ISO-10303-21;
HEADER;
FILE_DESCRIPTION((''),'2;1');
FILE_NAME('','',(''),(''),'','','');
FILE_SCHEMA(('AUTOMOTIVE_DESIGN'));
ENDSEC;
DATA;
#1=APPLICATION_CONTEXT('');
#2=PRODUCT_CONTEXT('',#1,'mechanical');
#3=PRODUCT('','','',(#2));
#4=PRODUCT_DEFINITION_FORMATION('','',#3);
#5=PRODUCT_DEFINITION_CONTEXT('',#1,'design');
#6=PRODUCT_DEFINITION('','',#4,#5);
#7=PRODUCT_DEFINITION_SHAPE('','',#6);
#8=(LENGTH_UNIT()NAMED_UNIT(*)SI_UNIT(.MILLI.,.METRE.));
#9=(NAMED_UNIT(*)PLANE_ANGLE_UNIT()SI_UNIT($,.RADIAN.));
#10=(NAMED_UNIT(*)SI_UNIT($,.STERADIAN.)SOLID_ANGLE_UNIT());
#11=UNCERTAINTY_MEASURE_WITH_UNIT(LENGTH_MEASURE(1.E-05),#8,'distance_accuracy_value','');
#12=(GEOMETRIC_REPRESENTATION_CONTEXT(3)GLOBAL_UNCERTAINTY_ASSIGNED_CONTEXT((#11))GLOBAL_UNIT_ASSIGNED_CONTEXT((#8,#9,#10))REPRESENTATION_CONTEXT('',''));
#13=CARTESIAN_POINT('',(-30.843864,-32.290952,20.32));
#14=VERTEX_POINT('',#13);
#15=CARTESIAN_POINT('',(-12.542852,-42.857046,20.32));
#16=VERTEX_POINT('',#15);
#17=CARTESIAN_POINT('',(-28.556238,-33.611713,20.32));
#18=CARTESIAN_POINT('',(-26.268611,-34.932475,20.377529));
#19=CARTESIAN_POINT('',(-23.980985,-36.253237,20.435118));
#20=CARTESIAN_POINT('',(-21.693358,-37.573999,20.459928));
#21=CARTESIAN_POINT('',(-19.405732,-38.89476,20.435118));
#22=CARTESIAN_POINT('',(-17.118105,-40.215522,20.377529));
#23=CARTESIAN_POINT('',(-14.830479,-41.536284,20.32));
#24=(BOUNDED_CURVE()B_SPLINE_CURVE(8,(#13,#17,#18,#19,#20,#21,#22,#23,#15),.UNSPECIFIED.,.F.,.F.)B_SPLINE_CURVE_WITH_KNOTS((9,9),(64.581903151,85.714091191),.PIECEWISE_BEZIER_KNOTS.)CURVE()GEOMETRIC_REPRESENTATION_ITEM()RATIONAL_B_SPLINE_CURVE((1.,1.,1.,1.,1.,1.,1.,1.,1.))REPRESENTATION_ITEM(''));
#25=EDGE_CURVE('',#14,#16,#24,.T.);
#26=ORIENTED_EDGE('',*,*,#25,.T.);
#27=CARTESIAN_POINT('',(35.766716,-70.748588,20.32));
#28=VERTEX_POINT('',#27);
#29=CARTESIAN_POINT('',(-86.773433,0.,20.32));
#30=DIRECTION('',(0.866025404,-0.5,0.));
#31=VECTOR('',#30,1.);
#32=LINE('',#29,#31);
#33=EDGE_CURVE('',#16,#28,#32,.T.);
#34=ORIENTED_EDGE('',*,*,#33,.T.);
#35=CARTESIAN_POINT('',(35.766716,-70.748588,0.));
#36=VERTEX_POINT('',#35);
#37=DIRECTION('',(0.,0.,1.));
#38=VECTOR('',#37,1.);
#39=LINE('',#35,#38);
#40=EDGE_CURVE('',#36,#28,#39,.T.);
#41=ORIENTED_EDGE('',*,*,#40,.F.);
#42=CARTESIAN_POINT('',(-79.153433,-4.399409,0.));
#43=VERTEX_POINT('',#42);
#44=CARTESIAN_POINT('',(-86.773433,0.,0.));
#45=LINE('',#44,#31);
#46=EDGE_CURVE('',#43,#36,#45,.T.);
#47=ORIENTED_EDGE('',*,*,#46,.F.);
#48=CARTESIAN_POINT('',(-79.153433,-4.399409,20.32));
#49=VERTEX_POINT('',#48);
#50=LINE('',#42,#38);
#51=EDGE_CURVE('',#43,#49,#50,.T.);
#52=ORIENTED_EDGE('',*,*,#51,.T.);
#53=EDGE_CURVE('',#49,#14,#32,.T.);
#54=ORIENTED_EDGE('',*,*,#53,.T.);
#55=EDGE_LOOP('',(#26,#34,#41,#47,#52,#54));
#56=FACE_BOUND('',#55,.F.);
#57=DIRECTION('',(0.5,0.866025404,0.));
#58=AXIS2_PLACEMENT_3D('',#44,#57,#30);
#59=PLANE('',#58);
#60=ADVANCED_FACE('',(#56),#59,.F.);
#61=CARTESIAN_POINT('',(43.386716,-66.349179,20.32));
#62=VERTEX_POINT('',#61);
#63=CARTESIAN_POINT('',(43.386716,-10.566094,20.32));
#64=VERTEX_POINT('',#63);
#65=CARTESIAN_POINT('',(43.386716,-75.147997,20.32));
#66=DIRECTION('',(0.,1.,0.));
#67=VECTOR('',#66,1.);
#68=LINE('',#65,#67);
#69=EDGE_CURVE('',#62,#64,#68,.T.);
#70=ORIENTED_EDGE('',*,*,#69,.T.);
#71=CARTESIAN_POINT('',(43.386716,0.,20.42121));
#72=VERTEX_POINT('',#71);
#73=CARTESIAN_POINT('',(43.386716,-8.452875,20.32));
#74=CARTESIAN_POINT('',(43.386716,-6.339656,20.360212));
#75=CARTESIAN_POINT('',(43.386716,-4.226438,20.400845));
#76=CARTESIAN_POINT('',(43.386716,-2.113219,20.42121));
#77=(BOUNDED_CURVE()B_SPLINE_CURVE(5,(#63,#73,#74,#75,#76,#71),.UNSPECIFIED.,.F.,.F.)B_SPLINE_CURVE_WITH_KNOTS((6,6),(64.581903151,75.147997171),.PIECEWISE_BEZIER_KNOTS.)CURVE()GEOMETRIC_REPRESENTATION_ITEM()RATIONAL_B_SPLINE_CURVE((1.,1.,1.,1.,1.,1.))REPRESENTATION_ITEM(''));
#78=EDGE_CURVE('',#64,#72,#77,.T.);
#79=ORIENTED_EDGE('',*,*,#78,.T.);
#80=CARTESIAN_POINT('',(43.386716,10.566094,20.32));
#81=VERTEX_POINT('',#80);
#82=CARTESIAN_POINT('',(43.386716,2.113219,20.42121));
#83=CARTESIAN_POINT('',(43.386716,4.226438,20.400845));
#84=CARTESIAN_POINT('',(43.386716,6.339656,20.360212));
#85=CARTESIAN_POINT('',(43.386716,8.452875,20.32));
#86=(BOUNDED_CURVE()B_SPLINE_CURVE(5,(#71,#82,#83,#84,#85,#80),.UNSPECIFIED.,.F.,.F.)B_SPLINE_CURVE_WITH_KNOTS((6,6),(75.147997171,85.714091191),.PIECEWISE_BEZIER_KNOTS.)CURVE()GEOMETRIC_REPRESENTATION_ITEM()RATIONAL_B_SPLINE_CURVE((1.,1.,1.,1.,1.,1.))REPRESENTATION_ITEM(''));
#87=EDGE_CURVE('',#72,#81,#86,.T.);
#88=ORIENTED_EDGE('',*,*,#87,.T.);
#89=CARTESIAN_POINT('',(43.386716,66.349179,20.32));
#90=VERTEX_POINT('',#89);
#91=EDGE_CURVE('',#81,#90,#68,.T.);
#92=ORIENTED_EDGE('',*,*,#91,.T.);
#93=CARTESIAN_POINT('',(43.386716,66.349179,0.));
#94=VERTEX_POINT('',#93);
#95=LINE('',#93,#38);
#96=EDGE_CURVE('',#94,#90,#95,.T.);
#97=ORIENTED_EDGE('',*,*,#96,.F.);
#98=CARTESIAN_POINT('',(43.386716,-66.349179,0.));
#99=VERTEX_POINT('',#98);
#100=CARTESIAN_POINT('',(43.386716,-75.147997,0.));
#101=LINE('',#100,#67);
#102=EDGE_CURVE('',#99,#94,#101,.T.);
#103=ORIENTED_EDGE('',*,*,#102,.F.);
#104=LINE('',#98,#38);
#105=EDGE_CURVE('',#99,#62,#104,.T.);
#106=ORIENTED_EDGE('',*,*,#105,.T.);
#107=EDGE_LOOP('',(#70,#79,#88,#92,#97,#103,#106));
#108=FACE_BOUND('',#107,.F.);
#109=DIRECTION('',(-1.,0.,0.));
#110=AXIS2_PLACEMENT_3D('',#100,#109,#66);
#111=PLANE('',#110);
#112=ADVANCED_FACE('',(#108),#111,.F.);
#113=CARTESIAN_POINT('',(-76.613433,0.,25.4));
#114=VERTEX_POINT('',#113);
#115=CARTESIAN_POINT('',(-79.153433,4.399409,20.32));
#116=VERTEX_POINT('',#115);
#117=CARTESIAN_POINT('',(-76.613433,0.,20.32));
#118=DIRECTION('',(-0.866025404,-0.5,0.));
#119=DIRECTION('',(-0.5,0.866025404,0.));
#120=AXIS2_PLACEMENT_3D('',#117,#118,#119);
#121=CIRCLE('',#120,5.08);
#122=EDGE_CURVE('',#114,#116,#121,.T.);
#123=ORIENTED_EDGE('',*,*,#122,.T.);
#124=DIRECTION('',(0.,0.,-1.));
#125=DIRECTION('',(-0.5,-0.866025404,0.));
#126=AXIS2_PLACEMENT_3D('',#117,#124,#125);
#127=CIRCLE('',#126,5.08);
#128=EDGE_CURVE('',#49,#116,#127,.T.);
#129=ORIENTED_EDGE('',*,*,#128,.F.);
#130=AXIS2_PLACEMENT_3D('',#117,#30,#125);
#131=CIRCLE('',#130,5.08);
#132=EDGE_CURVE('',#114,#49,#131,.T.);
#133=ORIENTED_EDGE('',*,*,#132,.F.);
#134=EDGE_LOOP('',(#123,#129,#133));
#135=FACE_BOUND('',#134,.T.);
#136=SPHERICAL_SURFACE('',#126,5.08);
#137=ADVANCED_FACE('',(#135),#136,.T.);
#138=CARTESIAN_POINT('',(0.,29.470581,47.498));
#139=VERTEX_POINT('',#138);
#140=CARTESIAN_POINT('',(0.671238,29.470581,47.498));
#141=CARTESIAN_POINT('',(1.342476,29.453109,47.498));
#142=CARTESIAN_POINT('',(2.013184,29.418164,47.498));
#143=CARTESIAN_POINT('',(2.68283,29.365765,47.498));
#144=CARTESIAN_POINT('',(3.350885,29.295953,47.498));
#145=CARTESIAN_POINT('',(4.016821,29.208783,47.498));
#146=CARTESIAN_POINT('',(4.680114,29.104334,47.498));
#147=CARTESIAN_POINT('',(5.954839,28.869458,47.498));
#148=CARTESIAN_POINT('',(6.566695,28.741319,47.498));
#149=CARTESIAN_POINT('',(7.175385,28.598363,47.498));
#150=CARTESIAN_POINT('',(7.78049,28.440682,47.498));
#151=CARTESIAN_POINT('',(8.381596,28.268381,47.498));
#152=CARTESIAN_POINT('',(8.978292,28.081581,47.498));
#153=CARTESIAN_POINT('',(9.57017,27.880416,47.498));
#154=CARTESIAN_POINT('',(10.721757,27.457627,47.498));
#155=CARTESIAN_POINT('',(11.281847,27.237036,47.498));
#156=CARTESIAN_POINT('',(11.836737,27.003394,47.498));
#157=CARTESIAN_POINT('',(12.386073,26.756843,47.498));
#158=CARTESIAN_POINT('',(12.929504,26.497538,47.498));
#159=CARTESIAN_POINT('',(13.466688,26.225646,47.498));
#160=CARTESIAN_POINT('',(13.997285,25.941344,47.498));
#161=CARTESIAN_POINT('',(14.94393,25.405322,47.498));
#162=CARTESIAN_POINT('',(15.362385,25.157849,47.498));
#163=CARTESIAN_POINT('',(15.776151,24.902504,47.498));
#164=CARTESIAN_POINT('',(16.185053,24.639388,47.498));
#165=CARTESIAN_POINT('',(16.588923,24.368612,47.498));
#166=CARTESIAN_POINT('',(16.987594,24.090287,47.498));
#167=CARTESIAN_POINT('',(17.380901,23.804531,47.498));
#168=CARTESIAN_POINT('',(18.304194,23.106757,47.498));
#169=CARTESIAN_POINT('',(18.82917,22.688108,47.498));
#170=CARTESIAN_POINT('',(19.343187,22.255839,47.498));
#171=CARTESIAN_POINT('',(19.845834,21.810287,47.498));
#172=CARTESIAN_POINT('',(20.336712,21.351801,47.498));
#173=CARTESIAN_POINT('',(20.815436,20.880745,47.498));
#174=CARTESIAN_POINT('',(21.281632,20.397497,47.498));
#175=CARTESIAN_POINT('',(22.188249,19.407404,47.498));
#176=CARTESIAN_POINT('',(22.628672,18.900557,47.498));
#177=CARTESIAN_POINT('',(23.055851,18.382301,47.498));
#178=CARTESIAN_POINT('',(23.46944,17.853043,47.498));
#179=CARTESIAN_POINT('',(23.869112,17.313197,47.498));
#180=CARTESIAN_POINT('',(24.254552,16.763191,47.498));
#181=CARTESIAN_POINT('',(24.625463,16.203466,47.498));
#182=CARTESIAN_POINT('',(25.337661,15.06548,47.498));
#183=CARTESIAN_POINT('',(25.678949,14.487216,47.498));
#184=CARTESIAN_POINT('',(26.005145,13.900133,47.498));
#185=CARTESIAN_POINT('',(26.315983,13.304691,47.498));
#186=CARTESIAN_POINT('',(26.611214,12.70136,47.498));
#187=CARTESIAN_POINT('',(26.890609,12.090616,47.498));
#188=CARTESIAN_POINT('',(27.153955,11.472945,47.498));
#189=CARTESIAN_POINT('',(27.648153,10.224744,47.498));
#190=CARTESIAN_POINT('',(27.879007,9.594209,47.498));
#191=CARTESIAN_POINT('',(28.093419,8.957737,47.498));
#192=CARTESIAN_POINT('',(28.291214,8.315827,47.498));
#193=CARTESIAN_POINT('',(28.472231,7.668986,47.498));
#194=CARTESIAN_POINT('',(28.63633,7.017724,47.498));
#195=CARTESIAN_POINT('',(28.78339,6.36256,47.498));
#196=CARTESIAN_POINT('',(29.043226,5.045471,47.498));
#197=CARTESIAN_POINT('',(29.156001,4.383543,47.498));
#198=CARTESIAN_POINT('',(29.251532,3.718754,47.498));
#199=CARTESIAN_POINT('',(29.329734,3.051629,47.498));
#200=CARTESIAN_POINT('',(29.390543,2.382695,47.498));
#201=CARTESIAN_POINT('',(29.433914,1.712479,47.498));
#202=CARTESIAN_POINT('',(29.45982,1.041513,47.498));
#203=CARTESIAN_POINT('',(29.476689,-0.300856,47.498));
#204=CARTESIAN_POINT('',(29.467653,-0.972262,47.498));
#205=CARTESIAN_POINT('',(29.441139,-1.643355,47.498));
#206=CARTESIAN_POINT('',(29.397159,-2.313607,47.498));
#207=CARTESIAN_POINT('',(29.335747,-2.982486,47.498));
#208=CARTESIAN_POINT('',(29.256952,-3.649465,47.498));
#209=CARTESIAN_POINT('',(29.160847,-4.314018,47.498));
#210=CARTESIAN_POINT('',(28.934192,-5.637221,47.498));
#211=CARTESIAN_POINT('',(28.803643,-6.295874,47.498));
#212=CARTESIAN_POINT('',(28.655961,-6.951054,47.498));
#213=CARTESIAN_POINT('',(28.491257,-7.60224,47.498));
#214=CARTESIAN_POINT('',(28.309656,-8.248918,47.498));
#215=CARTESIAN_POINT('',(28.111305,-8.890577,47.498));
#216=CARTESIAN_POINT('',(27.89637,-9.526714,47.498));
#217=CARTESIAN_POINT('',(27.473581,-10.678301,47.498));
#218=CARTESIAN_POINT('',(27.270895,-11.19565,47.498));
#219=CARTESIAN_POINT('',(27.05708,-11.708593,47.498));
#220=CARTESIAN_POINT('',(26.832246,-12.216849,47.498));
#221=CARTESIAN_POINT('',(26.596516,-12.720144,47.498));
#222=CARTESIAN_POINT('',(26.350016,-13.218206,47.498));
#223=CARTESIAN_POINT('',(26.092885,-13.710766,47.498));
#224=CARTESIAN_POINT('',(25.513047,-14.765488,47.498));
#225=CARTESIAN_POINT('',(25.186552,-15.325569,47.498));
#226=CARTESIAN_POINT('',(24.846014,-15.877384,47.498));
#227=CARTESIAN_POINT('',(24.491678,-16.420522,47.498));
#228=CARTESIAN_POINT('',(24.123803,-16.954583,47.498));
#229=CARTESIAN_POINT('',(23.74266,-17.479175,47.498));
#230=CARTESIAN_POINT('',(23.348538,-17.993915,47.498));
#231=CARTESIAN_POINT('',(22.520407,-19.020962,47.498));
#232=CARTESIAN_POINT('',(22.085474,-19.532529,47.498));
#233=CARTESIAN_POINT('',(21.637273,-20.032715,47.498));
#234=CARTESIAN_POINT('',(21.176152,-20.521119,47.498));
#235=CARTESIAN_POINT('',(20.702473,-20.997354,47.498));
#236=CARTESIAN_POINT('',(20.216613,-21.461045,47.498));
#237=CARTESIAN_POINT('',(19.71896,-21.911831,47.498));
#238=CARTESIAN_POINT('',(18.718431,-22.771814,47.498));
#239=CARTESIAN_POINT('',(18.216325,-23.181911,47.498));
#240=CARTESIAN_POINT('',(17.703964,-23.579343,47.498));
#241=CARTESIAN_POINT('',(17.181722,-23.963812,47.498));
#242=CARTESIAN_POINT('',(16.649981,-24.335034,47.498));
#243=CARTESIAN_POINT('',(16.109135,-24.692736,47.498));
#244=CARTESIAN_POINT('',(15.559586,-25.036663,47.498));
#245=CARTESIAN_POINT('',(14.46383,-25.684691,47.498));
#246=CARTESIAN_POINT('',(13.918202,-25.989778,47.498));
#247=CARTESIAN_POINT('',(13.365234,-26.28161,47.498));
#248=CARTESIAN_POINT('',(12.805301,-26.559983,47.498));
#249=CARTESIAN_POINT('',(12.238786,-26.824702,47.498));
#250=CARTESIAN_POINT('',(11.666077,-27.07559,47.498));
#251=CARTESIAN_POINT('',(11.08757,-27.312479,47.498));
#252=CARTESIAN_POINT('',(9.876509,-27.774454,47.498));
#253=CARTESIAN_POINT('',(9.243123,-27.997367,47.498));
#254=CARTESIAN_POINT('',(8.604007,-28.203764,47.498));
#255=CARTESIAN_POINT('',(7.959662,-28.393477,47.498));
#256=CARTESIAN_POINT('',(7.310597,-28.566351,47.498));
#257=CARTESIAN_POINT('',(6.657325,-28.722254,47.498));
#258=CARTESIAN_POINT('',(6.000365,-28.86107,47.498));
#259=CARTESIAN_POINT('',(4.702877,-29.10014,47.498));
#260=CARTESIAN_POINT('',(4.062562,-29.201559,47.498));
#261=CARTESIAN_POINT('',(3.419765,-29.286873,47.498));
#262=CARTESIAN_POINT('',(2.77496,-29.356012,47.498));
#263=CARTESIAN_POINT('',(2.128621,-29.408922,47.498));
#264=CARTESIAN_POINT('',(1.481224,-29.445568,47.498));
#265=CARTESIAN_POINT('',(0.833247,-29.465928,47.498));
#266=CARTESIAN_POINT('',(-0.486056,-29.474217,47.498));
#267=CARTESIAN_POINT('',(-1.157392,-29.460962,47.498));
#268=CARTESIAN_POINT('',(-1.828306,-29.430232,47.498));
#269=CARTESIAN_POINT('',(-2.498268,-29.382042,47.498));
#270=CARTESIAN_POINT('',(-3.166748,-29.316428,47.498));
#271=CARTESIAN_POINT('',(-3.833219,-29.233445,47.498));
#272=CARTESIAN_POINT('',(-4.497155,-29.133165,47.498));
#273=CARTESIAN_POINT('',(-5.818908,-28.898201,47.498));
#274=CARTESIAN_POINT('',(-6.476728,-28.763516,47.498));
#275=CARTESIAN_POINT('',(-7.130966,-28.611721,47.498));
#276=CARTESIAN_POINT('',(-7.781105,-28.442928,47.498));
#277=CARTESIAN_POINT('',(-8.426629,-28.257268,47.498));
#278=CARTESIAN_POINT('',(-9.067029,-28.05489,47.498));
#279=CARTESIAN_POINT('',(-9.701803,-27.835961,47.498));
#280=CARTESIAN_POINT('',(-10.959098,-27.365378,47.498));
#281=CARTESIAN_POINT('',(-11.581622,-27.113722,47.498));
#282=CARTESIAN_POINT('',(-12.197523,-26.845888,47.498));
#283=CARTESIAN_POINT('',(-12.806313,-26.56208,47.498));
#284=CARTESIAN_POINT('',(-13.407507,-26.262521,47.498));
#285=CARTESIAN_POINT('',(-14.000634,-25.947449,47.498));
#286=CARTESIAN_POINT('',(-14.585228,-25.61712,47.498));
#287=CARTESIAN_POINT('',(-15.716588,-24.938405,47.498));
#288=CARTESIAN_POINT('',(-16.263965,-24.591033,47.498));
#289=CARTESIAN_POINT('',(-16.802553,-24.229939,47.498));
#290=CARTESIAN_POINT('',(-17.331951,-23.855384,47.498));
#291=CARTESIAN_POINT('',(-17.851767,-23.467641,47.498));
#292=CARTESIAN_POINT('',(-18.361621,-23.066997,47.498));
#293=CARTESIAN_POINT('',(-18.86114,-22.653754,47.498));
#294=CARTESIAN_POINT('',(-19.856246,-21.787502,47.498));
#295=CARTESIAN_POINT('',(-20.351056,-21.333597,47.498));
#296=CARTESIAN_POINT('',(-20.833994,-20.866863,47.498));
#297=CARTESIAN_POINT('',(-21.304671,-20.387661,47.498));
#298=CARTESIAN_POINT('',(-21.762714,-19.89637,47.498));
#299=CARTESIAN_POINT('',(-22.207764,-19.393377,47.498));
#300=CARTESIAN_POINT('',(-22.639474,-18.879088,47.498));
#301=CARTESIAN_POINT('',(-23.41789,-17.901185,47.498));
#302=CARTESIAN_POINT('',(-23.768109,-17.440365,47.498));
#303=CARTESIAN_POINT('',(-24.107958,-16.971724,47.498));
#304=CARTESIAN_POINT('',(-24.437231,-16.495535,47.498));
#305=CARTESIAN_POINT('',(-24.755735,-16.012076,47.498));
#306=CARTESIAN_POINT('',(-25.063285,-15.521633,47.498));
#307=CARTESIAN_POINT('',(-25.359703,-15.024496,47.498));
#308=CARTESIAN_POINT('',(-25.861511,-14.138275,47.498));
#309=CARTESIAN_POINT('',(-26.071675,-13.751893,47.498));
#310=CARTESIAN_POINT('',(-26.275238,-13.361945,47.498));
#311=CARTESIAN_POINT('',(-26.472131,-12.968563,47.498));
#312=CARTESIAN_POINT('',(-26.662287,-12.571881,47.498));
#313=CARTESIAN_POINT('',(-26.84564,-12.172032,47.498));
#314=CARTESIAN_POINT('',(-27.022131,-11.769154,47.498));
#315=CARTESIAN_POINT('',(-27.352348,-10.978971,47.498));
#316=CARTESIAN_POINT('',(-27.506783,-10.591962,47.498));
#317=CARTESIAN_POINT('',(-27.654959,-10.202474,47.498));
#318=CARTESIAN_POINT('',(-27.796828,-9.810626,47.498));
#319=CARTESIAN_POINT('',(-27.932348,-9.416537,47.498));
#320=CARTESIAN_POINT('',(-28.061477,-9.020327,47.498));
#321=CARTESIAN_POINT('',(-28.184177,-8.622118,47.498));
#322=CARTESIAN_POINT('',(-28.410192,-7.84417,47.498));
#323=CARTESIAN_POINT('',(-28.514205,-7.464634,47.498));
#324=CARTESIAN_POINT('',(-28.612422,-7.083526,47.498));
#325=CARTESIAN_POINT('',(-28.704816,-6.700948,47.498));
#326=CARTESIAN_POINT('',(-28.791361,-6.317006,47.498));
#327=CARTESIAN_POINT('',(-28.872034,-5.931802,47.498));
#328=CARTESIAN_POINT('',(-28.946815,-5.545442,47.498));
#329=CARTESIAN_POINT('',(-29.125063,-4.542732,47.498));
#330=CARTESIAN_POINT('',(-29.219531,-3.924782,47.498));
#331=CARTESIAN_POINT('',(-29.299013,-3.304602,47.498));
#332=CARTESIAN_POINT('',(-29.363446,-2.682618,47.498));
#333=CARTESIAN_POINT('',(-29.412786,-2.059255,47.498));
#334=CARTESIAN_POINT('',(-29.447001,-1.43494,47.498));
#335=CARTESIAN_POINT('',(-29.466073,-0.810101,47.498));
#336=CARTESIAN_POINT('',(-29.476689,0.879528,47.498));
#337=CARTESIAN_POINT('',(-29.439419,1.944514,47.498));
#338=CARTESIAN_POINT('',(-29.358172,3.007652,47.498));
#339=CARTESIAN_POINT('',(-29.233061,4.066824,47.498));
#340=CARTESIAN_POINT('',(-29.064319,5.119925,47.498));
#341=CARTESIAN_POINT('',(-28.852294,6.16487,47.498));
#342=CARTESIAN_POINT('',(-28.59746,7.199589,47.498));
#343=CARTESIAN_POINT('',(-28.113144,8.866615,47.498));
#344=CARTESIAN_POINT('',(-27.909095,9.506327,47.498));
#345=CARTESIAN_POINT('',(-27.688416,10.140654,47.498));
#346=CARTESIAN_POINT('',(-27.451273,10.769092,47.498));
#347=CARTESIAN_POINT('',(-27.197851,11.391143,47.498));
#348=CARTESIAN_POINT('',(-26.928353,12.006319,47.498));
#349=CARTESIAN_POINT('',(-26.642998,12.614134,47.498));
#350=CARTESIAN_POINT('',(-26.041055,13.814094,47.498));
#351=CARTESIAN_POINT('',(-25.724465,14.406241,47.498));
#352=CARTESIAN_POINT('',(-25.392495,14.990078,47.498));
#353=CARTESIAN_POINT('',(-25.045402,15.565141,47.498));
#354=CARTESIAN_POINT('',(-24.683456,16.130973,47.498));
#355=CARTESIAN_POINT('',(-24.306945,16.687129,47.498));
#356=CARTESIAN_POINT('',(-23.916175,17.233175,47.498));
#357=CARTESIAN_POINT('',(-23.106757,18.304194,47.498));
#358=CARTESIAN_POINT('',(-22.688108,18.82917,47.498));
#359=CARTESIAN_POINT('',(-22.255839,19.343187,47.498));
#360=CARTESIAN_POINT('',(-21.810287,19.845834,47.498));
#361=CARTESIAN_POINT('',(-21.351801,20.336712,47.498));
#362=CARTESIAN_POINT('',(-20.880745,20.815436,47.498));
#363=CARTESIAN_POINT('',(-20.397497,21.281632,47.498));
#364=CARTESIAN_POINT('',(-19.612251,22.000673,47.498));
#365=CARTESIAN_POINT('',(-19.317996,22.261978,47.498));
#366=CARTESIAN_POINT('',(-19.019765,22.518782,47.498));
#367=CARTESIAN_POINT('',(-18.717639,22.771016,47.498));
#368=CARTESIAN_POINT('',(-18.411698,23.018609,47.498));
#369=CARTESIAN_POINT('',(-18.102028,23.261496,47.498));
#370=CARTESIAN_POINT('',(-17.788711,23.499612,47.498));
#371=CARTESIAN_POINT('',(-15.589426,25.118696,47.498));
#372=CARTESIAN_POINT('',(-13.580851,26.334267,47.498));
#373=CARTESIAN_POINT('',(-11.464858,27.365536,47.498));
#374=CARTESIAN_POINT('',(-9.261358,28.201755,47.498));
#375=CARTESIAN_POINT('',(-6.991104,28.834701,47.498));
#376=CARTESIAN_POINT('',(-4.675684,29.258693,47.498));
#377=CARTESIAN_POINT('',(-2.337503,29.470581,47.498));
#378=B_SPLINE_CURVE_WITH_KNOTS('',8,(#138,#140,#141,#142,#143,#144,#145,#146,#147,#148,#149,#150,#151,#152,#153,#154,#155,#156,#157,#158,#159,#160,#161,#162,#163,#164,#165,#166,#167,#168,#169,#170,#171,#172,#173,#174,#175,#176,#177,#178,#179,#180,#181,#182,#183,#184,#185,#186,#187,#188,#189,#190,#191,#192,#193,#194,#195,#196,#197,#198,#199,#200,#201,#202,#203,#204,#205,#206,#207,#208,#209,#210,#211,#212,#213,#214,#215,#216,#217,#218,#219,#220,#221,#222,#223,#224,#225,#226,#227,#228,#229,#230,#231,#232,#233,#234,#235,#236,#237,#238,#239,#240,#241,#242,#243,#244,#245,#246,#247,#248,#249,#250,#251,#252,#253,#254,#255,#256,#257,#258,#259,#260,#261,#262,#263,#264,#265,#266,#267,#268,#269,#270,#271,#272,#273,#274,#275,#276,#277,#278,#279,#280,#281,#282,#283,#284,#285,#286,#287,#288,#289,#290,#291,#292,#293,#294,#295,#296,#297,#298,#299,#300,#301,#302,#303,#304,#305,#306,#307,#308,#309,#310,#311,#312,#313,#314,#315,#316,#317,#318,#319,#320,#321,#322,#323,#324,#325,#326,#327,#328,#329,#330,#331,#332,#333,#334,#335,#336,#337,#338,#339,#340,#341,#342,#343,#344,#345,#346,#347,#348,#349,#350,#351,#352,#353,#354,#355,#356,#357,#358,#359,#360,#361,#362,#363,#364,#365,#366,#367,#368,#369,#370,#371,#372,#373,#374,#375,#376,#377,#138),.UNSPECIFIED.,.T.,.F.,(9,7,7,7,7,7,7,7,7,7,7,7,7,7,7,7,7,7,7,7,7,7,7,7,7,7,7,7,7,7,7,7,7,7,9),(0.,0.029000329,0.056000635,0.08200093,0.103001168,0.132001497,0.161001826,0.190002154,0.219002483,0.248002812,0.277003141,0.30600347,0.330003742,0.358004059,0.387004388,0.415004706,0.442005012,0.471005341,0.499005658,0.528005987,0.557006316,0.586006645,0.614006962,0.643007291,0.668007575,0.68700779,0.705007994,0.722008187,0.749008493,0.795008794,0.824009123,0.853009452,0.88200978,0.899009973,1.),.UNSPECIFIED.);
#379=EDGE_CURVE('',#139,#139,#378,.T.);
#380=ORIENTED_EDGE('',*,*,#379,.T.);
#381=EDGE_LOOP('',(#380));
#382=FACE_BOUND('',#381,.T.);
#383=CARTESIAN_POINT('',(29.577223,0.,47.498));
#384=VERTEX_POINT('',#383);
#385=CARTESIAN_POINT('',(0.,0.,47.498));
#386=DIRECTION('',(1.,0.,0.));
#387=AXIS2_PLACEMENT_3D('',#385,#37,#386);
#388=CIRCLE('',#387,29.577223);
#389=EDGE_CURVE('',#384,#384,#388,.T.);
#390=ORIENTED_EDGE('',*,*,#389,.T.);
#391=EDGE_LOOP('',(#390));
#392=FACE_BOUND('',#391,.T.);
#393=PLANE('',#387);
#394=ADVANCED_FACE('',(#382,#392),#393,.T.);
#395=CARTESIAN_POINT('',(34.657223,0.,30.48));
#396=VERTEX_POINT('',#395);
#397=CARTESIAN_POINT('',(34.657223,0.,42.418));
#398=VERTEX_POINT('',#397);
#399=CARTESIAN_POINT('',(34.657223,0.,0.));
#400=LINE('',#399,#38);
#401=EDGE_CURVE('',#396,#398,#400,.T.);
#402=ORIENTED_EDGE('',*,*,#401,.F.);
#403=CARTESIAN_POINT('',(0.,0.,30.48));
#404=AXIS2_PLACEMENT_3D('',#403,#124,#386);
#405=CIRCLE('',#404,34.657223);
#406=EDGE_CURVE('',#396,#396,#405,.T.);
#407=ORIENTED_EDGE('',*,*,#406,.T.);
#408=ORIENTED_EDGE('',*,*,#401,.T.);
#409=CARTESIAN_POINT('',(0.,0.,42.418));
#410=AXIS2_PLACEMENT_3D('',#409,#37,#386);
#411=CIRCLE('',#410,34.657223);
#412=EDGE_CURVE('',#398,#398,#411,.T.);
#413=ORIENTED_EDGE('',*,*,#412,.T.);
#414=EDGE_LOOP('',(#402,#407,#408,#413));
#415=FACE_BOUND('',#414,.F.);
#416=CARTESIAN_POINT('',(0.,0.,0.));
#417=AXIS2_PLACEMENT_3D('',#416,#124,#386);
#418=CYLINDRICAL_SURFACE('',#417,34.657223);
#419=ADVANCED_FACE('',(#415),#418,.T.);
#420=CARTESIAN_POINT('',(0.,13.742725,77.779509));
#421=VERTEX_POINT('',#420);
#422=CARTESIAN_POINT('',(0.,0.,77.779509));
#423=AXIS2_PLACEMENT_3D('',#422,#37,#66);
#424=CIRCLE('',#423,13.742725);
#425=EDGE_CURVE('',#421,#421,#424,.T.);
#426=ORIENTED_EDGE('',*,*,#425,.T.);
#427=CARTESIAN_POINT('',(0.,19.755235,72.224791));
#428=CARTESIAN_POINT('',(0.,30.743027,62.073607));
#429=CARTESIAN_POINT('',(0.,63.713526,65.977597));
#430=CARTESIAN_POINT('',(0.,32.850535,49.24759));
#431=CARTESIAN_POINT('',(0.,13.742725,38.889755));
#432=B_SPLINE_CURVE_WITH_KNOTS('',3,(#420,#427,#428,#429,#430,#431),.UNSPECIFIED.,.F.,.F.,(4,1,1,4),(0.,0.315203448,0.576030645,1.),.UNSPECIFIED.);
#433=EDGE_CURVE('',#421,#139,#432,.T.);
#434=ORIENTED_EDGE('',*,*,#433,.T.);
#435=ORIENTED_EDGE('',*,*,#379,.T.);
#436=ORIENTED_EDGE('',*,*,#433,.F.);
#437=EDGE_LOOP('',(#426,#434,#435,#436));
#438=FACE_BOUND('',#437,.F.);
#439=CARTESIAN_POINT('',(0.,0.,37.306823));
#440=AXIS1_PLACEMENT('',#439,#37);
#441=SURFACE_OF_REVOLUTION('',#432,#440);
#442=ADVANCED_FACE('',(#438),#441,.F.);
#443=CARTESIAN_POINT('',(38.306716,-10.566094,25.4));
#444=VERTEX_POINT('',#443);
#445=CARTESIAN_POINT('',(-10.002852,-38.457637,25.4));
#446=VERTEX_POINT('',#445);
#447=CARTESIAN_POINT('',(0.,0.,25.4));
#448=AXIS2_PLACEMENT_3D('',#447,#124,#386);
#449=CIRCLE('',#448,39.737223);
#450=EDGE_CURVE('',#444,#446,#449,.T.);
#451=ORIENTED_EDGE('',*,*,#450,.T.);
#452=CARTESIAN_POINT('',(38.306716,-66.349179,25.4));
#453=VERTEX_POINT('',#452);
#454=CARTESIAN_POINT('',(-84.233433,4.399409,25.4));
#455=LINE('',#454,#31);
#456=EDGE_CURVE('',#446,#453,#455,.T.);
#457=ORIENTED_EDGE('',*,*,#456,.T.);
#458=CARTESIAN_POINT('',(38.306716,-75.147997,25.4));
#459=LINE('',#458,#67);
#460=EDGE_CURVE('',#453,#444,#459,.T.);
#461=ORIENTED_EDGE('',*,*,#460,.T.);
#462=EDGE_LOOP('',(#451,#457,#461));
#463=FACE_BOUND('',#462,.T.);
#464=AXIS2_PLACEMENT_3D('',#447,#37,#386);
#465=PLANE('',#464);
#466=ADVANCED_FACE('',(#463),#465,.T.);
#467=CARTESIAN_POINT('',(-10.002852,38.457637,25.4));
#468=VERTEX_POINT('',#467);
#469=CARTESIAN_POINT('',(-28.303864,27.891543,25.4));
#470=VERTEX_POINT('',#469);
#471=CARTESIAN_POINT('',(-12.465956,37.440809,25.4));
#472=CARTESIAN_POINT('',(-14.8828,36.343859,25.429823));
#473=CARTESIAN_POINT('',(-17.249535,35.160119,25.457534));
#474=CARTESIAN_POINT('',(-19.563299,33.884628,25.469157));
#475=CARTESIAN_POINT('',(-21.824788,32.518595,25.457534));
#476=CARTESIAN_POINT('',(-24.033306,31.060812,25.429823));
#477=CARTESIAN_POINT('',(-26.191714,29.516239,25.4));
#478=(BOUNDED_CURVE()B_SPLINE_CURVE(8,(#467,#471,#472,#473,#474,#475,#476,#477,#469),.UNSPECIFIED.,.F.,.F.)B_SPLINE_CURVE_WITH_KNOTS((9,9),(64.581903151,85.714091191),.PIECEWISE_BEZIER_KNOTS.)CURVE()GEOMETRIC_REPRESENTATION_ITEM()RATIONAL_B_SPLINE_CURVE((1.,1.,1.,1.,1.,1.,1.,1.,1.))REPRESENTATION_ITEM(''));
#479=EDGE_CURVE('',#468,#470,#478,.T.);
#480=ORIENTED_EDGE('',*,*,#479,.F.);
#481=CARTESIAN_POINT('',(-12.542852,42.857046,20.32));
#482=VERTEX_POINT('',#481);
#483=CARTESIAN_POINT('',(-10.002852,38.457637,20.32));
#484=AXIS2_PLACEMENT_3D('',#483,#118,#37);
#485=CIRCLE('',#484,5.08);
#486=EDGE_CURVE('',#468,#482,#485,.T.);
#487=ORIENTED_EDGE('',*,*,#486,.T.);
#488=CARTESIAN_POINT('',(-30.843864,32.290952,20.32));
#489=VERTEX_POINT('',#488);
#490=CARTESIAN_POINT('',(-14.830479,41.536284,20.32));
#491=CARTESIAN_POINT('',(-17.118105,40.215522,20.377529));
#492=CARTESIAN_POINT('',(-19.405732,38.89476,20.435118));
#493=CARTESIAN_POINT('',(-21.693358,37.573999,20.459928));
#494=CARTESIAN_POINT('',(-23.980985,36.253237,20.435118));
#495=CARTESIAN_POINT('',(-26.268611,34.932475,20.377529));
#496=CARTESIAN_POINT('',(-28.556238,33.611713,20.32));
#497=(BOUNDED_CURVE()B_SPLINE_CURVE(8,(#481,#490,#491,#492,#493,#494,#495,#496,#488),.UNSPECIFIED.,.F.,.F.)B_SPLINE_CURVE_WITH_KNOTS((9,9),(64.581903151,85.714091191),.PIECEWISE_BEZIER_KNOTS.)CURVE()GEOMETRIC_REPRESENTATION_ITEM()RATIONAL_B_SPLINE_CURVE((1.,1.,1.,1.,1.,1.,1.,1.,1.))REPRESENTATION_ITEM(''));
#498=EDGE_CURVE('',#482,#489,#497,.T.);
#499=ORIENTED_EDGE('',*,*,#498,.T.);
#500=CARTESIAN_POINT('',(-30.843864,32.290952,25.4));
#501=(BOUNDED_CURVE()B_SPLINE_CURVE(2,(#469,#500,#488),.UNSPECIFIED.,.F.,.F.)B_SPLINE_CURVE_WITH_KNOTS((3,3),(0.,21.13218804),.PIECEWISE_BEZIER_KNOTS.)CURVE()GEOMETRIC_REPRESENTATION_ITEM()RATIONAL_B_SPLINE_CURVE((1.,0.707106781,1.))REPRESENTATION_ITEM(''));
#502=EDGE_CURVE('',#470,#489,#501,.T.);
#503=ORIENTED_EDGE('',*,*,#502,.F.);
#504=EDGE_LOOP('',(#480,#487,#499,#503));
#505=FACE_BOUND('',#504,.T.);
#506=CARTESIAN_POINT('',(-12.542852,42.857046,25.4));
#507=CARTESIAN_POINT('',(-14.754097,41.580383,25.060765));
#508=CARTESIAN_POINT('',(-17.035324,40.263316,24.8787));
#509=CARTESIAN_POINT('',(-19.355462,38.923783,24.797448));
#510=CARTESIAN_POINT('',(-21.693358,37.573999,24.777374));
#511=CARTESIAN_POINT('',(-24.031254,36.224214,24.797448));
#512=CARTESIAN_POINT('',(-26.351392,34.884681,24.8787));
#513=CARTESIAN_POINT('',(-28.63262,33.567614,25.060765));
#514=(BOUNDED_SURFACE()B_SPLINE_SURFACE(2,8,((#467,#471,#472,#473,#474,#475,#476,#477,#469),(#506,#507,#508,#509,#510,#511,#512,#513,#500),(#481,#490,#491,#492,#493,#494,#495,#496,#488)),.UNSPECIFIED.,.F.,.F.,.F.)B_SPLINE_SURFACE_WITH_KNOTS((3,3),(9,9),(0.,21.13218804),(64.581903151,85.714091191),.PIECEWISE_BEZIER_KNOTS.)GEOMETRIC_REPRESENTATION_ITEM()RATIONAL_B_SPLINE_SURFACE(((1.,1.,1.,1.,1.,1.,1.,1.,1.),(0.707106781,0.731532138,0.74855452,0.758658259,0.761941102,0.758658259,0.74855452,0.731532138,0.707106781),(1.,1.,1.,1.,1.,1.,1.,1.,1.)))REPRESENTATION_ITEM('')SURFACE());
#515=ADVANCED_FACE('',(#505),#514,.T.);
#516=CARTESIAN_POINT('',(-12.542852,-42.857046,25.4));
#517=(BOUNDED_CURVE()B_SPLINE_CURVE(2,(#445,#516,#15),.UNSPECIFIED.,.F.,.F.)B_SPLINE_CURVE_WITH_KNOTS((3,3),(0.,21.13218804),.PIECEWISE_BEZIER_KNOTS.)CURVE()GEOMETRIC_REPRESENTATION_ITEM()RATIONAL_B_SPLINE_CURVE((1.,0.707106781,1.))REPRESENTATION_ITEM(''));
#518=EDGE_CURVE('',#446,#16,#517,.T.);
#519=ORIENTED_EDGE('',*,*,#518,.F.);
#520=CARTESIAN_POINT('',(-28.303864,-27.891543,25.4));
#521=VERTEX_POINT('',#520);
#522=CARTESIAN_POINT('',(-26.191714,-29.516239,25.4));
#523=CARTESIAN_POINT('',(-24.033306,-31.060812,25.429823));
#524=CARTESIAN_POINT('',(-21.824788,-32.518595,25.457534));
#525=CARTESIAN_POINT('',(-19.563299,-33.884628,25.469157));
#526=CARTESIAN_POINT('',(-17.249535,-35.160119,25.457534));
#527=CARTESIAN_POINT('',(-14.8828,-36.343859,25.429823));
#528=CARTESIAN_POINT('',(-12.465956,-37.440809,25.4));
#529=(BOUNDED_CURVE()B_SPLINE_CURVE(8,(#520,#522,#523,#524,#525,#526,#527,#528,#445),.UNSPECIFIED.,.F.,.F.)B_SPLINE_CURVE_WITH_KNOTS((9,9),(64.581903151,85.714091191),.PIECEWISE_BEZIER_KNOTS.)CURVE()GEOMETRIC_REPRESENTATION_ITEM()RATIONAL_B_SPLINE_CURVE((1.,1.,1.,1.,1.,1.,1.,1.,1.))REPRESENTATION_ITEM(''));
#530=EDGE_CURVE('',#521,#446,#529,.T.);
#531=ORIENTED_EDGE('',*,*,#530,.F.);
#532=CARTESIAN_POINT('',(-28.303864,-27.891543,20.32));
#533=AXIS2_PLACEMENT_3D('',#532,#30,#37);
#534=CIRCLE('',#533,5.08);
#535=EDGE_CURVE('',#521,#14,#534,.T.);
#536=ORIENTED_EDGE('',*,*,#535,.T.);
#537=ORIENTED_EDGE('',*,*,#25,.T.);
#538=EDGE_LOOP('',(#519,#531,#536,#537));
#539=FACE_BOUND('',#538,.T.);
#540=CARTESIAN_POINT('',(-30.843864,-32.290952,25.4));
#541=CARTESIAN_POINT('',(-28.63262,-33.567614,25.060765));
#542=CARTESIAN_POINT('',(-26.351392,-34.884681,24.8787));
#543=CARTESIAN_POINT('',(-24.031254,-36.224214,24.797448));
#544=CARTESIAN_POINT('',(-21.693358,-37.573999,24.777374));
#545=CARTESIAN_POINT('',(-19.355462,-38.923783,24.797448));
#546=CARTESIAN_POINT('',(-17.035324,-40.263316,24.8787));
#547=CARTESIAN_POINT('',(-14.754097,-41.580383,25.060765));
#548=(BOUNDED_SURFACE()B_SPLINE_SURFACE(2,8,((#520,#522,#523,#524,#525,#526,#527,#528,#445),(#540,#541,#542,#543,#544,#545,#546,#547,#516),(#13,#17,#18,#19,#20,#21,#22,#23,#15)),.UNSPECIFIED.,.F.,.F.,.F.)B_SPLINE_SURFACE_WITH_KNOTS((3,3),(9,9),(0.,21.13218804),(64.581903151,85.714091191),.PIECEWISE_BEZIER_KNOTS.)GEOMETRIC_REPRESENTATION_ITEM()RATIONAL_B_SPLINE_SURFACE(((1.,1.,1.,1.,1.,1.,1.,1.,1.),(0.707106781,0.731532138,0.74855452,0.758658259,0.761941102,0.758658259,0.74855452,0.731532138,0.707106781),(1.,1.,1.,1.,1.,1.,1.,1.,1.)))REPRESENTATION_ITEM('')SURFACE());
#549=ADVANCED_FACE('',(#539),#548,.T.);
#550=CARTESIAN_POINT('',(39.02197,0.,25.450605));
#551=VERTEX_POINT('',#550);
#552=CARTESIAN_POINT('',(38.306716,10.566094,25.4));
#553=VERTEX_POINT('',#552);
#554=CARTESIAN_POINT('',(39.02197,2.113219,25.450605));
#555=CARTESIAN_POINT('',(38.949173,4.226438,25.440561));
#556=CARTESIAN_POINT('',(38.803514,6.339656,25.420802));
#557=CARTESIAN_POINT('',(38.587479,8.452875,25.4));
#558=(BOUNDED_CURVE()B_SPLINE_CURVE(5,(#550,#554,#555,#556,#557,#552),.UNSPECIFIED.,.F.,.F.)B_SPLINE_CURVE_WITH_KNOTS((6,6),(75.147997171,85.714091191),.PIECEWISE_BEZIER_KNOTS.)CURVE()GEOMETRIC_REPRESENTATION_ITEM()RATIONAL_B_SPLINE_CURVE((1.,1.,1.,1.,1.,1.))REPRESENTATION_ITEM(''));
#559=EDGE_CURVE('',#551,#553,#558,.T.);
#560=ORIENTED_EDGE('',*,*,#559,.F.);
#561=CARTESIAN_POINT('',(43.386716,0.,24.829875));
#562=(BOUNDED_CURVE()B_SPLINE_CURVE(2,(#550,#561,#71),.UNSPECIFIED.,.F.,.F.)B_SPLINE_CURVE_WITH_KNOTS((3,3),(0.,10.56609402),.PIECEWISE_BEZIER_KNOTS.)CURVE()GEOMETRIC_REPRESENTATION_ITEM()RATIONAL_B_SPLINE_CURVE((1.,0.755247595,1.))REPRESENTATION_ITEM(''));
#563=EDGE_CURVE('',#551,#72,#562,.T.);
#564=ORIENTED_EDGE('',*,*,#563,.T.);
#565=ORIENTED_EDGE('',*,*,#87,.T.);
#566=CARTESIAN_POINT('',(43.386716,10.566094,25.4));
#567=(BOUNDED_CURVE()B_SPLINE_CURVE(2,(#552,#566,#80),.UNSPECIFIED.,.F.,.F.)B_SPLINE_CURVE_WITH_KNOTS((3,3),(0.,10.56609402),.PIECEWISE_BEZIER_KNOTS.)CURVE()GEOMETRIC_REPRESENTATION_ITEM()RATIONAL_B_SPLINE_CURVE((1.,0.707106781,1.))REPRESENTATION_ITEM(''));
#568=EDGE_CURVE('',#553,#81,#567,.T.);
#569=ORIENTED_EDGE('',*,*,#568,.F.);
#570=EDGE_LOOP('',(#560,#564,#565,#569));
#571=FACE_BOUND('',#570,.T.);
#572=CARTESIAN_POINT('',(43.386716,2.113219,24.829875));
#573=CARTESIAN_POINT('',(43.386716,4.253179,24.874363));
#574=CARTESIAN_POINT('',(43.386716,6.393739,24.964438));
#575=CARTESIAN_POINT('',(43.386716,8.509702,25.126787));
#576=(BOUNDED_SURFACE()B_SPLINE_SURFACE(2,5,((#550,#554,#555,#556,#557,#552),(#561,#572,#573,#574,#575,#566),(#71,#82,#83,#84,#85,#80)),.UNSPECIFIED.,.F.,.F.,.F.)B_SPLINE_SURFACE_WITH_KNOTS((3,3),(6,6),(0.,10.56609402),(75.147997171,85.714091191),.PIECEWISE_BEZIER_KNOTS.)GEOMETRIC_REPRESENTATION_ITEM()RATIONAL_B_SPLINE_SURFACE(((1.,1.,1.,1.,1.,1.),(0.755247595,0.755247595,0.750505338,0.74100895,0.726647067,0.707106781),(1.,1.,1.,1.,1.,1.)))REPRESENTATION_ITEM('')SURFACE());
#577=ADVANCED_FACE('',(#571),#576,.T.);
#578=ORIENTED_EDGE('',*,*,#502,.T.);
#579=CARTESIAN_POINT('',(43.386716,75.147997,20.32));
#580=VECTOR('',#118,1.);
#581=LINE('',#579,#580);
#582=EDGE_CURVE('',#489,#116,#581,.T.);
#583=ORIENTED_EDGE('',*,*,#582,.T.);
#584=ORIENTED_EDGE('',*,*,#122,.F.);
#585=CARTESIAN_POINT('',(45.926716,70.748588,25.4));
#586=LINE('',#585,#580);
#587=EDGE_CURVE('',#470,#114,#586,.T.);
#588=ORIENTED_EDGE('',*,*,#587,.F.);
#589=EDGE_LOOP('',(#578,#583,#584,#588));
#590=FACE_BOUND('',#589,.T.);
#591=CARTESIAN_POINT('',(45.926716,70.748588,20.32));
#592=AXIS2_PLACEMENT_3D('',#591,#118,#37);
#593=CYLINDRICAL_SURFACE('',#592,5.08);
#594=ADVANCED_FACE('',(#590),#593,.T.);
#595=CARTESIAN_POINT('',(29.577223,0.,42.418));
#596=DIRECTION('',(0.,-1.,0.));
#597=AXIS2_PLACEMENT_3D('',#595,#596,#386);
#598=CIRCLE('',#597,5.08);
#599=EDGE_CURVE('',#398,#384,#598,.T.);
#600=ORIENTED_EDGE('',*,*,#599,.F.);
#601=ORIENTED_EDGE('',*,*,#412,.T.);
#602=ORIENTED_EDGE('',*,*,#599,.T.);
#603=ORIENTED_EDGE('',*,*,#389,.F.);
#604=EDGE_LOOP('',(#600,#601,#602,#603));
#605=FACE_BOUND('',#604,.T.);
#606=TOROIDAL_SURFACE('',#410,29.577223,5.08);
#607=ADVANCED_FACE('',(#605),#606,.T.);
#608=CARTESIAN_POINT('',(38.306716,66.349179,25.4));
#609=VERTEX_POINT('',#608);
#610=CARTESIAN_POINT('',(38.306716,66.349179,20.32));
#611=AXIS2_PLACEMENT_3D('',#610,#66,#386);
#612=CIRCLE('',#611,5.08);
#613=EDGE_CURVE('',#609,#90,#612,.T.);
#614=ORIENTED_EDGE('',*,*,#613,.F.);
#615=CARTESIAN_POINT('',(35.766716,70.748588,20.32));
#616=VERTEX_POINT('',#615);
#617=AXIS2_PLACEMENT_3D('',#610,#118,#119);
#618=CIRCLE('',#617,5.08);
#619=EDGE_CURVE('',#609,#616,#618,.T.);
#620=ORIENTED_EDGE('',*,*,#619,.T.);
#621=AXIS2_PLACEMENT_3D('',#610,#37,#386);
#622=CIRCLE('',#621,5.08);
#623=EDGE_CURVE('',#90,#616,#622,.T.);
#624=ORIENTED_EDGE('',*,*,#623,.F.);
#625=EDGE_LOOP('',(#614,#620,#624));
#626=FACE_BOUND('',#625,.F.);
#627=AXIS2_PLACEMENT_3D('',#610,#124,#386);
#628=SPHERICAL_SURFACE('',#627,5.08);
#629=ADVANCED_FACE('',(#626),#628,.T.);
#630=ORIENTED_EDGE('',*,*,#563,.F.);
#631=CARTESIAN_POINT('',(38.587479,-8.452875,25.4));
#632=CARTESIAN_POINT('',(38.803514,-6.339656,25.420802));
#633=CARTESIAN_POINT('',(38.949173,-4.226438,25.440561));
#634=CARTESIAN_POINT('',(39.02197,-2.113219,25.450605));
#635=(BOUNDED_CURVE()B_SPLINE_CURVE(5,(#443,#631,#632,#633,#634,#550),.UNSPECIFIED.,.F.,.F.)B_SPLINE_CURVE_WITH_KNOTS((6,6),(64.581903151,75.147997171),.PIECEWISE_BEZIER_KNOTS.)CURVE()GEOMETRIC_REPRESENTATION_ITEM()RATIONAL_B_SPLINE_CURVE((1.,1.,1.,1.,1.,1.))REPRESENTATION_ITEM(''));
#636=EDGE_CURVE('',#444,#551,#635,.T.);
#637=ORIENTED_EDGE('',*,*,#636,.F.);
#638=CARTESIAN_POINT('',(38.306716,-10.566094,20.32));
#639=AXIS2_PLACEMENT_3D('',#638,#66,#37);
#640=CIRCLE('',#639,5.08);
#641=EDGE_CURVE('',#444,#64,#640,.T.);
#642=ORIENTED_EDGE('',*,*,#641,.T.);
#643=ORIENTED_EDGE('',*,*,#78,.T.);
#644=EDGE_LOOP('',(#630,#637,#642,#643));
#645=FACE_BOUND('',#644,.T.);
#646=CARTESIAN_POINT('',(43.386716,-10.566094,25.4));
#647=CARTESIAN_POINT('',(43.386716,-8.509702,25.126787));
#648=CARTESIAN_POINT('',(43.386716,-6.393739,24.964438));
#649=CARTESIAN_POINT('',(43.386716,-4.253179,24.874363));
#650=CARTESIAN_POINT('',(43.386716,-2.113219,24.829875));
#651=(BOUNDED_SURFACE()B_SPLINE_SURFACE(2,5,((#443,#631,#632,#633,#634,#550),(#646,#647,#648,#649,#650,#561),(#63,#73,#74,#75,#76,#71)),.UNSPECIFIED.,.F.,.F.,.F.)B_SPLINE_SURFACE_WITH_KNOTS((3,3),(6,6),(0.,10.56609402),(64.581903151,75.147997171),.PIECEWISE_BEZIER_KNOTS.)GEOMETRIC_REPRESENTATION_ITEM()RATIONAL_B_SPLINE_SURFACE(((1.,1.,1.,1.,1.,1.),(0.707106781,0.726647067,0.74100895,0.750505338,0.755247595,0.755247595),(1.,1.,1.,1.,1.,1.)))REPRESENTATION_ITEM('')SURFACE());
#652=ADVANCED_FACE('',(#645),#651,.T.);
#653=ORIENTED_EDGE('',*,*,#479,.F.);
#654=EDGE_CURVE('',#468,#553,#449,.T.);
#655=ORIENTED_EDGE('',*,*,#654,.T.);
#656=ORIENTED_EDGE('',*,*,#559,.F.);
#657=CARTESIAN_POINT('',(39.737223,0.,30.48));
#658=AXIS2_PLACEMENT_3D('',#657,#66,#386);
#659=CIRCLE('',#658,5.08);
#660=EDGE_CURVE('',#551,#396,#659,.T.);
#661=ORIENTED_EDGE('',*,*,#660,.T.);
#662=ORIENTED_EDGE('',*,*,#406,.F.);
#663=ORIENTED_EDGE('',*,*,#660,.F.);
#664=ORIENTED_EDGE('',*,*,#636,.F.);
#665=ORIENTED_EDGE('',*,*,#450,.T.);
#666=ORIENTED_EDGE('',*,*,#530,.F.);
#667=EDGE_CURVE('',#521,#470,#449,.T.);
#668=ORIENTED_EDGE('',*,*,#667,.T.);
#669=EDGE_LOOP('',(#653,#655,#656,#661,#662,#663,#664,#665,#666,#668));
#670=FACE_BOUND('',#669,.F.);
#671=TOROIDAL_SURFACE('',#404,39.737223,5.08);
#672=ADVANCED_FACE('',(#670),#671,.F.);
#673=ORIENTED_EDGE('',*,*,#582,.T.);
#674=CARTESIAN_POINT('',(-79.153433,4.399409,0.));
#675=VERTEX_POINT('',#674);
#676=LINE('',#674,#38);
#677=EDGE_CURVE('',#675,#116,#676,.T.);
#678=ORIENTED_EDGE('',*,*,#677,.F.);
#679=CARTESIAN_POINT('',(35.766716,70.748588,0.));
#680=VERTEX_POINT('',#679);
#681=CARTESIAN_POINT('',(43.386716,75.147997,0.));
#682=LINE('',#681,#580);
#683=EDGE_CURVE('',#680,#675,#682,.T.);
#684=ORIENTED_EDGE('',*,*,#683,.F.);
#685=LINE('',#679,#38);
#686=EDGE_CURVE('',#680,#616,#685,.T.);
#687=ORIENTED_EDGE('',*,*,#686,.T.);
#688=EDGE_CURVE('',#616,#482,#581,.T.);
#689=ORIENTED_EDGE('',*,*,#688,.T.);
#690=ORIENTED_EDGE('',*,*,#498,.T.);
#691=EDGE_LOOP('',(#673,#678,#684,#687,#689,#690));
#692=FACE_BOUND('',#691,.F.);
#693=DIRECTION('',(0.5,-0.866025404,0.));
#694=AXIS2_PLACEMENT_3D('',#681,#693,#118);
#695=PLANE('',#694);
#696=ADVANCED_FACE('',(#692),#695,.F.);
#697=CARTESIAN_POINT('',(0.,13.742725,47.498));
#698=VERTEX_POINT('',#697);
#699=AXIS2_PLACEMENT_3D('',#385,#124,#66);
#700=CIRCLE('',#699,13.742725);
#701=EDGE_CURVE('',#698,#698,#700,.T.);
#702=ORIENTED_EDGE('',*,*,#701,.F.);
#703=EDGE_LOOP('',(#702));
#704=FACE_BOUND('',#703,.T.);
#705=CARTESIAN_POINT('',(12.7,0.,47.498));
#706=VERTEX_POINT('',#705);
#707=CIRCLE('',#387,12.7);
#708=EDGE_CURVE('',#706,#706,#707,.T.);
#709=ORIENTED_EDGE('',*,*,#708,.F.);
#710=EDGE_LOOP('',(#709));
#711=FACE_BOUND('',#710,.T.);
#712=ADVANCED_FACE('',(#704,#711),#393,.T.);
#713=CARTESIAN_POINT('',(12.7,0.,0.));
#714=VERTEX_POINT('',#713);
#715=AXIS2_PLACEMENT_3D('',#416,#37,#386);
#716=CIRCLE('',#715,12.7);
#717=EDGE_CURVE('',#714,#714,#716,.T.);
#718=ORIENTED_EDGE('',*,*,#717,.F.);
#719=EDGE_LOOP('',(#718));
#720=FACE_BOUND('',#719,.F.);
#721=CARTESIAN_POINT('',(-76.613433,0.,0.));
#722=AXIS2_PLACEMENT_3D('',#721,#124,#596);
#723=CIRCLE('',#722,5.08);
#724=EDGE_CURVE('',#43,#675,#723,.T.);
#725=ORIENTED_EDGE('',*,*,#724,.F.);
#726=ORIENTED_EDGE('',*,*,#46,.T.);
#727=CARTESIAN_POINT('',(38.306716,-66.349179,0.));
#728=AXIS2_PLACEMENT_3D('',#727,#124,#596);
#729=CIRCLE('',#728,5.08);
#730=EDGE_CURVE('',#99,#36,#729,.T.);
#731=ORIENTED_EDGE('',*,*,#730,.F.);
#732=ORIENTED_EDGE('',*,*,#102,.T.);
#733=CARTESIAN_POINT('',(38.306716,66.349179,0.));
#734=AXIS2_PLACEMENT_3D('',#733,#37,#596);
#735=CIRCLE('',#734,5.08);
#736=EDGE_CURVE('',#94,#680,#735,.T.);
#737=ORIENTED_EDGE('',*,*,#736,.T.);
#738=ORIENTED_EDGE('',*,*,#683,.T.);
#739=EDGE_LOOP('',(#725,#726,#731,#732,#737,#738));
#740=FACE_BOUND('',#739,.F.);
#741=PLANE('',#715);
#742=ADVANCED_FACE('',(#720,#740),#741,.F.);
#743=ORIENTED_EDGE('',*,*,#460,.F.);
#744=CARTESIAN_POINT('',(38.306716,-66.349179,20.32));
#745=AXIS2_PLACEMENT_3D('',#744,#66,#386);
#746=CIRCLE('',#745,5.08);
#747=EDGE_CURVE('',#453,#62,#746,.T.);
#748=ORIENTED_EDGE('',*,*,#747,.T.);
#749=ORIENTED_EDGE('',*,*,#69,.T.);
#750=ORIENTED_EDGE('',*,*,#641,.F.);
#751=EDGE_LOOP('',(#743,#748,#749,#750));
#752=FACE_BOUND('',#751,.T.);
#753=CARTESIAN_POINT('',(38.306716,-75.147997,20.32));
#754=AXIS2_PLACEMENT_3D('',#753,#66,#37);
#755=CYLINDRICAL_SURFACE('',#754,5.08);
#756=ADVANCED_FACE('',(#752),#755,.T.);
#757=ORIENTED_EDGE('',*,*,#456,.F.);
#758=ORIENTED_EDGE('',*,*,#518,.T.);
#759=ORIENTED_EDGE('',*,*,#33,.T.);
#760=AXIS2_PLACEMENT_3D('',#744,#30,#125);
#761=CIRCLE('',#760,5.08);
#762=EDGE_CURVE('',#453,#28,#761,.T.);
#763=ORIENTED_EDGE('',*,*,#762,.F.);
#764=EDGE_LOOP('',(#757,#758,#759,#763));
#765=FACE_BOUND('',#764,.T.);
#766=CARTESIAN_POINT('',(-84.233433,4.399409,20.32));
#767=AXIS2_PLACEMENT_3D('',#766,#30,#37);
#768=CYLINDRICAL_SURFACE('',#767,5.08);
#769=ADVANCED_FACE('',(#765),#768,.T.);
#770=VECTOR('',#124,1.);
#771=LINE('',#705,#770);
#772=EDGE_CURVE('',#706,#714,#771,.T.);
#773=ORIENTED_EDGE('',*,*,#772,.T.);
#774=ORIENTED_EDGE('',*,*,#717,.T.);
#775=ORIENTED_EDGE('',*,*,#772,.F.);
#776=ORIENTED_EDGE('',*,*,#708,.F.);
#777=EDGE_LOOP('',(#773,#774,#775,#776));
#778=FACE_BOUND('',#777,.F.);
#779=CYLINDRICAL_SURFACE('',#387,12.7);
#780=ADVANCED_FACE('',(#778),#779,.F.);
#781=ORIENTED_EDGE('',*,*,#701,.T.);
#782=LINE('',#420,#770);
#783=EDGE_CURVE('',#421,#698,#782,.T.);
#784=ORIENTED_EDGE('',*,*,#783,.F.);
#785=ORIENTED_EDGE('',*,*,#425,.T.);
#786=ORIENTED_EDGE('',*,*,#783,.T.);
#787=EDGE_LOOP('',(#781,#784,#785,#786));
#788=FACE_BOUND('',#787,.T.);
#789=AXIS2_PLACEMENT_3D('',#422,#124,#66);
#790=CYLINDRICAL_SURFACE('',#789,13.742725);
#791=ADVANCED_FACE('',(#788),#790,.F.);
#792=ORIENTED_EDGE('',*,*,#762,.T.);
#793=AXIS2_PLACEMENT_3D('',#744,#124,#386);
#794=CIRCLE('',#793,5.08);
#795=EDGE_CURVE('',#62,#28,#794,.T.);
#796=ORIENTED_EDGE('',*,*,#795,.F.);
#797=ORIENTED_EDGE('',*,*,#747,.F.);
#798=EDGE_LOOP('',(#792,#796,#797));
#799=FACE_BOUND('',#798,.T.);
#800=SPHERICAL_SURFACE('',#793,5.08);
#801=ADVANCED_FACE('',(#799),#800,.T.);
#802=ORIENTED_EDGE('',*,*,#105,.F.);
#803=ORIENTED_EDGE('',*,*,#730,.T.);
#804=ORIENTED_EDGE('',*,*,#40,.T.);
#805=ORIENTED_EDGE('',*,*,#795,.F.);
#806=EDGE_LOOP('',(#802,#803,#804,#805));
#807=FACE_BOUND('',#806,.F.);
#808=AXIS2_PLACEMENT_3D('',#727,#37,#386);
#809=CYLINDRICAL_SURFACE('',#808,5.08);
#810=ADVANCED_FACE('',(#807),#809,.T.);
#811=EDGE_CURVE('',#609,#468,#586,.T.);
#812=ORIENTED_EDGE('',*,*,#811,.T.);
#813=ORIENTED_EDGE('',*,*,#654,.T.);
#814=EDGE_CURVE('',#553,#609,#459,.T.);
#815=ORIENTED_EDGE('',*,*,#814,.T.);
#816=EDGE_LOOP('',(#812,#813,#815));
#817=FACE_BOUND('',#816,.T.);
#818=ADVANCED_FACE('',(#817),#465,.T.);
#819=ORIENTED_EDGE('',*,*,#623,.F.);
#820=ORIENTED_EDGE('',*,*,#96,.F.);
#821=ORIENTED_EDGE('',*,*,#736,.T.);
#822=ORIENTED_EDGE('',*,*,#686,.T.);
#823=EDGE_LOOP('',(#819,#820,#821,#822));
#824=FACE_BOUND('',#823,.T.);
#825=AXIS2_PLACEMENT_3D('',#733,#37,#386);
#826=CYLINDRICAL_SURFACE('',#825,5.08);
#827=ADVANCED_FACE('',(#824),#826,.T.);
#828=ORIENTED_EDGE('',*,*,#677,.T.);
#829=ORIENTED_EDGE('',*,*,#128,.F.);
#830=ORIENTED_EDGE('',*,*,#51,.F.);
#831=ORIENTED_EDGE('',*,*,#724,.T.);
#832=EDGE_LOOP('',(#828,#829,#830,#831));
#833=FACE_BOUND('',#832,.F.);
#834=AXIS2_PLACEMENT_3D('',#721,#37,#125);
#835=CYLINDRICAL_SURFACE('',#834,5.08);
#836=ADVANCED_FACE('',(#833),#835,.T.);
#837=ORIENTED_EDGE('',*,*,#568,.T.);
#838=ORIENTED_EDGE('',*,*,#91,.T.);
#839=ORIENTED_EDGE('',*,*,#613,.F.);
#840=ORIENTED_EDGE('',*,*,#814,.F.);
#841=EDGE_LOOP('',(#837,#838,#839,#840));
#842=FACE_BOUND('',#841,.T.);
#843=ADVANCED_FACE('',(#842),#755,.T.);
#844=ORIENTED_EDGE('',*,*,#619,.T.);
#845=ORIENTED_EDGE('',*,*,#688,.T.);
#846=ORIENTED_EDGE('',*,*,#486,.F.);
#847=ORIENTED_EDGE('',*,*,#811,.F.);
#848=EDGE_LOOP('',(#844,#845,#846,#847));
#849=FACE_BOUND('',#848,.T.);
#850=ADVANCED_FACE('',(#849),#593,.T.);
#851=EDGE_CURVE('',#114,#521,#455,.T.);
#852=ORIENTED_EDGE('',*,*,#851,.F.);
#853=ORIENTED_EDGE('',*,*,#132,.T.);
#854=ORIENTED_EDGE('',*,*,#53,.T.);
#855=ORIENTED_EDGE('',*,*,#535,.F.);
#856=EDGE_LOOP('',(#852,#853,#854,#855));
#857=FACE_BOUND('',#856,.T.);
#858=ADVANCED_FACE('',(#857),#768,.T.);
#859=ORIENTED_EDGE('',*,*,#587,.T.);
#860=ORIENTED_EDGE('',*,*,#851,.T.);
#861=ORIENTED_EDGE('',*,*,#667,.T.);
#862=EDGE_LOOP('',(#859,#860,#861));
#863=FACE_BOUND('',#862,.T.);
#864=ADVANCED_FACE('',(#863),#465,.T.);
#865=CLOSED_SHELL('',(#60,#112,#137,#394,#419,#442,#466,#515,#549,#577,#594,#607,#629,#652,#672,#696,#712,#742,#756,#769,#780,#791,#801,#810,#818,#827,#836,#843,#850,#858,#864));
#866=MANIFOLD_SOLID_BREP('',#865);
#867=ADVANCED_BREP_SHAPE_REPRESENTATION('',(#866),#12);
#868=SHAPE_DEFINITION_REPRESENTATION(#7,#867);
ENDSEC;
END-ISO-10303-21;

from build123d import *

# Parameters (mm, degrees)
F1_DEPTH = 25.4
F2_R     = 34.657222649
F3_DEPTH = 47.498
F4_R     = 5.08
F5_R     = 12.7
F6_DEPTH = 47.499
F7_R     = 5.08


with BuildPart() as f1:
    # F0 (on Top) → F1 (new body)
    with BuildSketch(Plane.XY):
        Polygon((43.3867163956, -75.1479971708), (43.3867163956, 75.1479971708), (-86.7734327912, 0), align=None)
    extrude(amount=F1_DEPTH)

    # F2 (on Top) → F3 (join)
    with BuildSketch(Plane.XY):
        Circle(F2_R)
    extrude(amount=F3_DEPTH)

    # F4
    f4_edges = [f1.edges().sort_by_distance(p)[0] for p in [
        (-34.657223, 0, 25.4),
        (-34.657223, 0, 47.498),
    ]]
    fillet(f4_edges, radius=F4_R)

    # F5 (on face) → F6 (cut, through all)
    with BuildSketch(Plane.XY.offset(47.498)):
        Circle(F5_R)
    extrude(amount=-F6_DEPTH, mode=Mode.SUBTRACT)

    # F7
    f7_edges = [f1.edges().sort_by_distance(p)[0] for p in [
        (43.386716, 0, 25.4),
        (-21.693358, -37.573999, 25.4),
        (-21.693358, 37.573999, 25.4),
        (43.386716, -75.147997, 12.7),
        (43.386716, 75.147997, 12.7),
        (-86.773433, 0, 12.7),
    ]]
    fillet(f7_edges, radius=F7_R)

    # F8 (on Right) → F9 (revolve)
    with BuildSketch(Plane.YZ):
        with BuildLine():
            Line((13.7427253649, 77.7795091271), (13.7427253649, 38.8897545636))
            add(Edge.make_bspline(
                [(13.7427253649, 77.7795091271), (19.7552349789, 72.2247905159), (30.7430265403, 62.0736067006), (63.7135258095, 65.9775971528), (32.8505351499, 49.2475903212), (13.7427253649, 38.8897545636)],
                knots=[0, 0, 0, 0, 0.3152034483, 0.5760306447, 1, 1, 1, 1], degree=3))
        make_face()
    revolve(axis=Axis((0, 0, 37.3068228364), (0, 0, 1)))


solid = f1.part
